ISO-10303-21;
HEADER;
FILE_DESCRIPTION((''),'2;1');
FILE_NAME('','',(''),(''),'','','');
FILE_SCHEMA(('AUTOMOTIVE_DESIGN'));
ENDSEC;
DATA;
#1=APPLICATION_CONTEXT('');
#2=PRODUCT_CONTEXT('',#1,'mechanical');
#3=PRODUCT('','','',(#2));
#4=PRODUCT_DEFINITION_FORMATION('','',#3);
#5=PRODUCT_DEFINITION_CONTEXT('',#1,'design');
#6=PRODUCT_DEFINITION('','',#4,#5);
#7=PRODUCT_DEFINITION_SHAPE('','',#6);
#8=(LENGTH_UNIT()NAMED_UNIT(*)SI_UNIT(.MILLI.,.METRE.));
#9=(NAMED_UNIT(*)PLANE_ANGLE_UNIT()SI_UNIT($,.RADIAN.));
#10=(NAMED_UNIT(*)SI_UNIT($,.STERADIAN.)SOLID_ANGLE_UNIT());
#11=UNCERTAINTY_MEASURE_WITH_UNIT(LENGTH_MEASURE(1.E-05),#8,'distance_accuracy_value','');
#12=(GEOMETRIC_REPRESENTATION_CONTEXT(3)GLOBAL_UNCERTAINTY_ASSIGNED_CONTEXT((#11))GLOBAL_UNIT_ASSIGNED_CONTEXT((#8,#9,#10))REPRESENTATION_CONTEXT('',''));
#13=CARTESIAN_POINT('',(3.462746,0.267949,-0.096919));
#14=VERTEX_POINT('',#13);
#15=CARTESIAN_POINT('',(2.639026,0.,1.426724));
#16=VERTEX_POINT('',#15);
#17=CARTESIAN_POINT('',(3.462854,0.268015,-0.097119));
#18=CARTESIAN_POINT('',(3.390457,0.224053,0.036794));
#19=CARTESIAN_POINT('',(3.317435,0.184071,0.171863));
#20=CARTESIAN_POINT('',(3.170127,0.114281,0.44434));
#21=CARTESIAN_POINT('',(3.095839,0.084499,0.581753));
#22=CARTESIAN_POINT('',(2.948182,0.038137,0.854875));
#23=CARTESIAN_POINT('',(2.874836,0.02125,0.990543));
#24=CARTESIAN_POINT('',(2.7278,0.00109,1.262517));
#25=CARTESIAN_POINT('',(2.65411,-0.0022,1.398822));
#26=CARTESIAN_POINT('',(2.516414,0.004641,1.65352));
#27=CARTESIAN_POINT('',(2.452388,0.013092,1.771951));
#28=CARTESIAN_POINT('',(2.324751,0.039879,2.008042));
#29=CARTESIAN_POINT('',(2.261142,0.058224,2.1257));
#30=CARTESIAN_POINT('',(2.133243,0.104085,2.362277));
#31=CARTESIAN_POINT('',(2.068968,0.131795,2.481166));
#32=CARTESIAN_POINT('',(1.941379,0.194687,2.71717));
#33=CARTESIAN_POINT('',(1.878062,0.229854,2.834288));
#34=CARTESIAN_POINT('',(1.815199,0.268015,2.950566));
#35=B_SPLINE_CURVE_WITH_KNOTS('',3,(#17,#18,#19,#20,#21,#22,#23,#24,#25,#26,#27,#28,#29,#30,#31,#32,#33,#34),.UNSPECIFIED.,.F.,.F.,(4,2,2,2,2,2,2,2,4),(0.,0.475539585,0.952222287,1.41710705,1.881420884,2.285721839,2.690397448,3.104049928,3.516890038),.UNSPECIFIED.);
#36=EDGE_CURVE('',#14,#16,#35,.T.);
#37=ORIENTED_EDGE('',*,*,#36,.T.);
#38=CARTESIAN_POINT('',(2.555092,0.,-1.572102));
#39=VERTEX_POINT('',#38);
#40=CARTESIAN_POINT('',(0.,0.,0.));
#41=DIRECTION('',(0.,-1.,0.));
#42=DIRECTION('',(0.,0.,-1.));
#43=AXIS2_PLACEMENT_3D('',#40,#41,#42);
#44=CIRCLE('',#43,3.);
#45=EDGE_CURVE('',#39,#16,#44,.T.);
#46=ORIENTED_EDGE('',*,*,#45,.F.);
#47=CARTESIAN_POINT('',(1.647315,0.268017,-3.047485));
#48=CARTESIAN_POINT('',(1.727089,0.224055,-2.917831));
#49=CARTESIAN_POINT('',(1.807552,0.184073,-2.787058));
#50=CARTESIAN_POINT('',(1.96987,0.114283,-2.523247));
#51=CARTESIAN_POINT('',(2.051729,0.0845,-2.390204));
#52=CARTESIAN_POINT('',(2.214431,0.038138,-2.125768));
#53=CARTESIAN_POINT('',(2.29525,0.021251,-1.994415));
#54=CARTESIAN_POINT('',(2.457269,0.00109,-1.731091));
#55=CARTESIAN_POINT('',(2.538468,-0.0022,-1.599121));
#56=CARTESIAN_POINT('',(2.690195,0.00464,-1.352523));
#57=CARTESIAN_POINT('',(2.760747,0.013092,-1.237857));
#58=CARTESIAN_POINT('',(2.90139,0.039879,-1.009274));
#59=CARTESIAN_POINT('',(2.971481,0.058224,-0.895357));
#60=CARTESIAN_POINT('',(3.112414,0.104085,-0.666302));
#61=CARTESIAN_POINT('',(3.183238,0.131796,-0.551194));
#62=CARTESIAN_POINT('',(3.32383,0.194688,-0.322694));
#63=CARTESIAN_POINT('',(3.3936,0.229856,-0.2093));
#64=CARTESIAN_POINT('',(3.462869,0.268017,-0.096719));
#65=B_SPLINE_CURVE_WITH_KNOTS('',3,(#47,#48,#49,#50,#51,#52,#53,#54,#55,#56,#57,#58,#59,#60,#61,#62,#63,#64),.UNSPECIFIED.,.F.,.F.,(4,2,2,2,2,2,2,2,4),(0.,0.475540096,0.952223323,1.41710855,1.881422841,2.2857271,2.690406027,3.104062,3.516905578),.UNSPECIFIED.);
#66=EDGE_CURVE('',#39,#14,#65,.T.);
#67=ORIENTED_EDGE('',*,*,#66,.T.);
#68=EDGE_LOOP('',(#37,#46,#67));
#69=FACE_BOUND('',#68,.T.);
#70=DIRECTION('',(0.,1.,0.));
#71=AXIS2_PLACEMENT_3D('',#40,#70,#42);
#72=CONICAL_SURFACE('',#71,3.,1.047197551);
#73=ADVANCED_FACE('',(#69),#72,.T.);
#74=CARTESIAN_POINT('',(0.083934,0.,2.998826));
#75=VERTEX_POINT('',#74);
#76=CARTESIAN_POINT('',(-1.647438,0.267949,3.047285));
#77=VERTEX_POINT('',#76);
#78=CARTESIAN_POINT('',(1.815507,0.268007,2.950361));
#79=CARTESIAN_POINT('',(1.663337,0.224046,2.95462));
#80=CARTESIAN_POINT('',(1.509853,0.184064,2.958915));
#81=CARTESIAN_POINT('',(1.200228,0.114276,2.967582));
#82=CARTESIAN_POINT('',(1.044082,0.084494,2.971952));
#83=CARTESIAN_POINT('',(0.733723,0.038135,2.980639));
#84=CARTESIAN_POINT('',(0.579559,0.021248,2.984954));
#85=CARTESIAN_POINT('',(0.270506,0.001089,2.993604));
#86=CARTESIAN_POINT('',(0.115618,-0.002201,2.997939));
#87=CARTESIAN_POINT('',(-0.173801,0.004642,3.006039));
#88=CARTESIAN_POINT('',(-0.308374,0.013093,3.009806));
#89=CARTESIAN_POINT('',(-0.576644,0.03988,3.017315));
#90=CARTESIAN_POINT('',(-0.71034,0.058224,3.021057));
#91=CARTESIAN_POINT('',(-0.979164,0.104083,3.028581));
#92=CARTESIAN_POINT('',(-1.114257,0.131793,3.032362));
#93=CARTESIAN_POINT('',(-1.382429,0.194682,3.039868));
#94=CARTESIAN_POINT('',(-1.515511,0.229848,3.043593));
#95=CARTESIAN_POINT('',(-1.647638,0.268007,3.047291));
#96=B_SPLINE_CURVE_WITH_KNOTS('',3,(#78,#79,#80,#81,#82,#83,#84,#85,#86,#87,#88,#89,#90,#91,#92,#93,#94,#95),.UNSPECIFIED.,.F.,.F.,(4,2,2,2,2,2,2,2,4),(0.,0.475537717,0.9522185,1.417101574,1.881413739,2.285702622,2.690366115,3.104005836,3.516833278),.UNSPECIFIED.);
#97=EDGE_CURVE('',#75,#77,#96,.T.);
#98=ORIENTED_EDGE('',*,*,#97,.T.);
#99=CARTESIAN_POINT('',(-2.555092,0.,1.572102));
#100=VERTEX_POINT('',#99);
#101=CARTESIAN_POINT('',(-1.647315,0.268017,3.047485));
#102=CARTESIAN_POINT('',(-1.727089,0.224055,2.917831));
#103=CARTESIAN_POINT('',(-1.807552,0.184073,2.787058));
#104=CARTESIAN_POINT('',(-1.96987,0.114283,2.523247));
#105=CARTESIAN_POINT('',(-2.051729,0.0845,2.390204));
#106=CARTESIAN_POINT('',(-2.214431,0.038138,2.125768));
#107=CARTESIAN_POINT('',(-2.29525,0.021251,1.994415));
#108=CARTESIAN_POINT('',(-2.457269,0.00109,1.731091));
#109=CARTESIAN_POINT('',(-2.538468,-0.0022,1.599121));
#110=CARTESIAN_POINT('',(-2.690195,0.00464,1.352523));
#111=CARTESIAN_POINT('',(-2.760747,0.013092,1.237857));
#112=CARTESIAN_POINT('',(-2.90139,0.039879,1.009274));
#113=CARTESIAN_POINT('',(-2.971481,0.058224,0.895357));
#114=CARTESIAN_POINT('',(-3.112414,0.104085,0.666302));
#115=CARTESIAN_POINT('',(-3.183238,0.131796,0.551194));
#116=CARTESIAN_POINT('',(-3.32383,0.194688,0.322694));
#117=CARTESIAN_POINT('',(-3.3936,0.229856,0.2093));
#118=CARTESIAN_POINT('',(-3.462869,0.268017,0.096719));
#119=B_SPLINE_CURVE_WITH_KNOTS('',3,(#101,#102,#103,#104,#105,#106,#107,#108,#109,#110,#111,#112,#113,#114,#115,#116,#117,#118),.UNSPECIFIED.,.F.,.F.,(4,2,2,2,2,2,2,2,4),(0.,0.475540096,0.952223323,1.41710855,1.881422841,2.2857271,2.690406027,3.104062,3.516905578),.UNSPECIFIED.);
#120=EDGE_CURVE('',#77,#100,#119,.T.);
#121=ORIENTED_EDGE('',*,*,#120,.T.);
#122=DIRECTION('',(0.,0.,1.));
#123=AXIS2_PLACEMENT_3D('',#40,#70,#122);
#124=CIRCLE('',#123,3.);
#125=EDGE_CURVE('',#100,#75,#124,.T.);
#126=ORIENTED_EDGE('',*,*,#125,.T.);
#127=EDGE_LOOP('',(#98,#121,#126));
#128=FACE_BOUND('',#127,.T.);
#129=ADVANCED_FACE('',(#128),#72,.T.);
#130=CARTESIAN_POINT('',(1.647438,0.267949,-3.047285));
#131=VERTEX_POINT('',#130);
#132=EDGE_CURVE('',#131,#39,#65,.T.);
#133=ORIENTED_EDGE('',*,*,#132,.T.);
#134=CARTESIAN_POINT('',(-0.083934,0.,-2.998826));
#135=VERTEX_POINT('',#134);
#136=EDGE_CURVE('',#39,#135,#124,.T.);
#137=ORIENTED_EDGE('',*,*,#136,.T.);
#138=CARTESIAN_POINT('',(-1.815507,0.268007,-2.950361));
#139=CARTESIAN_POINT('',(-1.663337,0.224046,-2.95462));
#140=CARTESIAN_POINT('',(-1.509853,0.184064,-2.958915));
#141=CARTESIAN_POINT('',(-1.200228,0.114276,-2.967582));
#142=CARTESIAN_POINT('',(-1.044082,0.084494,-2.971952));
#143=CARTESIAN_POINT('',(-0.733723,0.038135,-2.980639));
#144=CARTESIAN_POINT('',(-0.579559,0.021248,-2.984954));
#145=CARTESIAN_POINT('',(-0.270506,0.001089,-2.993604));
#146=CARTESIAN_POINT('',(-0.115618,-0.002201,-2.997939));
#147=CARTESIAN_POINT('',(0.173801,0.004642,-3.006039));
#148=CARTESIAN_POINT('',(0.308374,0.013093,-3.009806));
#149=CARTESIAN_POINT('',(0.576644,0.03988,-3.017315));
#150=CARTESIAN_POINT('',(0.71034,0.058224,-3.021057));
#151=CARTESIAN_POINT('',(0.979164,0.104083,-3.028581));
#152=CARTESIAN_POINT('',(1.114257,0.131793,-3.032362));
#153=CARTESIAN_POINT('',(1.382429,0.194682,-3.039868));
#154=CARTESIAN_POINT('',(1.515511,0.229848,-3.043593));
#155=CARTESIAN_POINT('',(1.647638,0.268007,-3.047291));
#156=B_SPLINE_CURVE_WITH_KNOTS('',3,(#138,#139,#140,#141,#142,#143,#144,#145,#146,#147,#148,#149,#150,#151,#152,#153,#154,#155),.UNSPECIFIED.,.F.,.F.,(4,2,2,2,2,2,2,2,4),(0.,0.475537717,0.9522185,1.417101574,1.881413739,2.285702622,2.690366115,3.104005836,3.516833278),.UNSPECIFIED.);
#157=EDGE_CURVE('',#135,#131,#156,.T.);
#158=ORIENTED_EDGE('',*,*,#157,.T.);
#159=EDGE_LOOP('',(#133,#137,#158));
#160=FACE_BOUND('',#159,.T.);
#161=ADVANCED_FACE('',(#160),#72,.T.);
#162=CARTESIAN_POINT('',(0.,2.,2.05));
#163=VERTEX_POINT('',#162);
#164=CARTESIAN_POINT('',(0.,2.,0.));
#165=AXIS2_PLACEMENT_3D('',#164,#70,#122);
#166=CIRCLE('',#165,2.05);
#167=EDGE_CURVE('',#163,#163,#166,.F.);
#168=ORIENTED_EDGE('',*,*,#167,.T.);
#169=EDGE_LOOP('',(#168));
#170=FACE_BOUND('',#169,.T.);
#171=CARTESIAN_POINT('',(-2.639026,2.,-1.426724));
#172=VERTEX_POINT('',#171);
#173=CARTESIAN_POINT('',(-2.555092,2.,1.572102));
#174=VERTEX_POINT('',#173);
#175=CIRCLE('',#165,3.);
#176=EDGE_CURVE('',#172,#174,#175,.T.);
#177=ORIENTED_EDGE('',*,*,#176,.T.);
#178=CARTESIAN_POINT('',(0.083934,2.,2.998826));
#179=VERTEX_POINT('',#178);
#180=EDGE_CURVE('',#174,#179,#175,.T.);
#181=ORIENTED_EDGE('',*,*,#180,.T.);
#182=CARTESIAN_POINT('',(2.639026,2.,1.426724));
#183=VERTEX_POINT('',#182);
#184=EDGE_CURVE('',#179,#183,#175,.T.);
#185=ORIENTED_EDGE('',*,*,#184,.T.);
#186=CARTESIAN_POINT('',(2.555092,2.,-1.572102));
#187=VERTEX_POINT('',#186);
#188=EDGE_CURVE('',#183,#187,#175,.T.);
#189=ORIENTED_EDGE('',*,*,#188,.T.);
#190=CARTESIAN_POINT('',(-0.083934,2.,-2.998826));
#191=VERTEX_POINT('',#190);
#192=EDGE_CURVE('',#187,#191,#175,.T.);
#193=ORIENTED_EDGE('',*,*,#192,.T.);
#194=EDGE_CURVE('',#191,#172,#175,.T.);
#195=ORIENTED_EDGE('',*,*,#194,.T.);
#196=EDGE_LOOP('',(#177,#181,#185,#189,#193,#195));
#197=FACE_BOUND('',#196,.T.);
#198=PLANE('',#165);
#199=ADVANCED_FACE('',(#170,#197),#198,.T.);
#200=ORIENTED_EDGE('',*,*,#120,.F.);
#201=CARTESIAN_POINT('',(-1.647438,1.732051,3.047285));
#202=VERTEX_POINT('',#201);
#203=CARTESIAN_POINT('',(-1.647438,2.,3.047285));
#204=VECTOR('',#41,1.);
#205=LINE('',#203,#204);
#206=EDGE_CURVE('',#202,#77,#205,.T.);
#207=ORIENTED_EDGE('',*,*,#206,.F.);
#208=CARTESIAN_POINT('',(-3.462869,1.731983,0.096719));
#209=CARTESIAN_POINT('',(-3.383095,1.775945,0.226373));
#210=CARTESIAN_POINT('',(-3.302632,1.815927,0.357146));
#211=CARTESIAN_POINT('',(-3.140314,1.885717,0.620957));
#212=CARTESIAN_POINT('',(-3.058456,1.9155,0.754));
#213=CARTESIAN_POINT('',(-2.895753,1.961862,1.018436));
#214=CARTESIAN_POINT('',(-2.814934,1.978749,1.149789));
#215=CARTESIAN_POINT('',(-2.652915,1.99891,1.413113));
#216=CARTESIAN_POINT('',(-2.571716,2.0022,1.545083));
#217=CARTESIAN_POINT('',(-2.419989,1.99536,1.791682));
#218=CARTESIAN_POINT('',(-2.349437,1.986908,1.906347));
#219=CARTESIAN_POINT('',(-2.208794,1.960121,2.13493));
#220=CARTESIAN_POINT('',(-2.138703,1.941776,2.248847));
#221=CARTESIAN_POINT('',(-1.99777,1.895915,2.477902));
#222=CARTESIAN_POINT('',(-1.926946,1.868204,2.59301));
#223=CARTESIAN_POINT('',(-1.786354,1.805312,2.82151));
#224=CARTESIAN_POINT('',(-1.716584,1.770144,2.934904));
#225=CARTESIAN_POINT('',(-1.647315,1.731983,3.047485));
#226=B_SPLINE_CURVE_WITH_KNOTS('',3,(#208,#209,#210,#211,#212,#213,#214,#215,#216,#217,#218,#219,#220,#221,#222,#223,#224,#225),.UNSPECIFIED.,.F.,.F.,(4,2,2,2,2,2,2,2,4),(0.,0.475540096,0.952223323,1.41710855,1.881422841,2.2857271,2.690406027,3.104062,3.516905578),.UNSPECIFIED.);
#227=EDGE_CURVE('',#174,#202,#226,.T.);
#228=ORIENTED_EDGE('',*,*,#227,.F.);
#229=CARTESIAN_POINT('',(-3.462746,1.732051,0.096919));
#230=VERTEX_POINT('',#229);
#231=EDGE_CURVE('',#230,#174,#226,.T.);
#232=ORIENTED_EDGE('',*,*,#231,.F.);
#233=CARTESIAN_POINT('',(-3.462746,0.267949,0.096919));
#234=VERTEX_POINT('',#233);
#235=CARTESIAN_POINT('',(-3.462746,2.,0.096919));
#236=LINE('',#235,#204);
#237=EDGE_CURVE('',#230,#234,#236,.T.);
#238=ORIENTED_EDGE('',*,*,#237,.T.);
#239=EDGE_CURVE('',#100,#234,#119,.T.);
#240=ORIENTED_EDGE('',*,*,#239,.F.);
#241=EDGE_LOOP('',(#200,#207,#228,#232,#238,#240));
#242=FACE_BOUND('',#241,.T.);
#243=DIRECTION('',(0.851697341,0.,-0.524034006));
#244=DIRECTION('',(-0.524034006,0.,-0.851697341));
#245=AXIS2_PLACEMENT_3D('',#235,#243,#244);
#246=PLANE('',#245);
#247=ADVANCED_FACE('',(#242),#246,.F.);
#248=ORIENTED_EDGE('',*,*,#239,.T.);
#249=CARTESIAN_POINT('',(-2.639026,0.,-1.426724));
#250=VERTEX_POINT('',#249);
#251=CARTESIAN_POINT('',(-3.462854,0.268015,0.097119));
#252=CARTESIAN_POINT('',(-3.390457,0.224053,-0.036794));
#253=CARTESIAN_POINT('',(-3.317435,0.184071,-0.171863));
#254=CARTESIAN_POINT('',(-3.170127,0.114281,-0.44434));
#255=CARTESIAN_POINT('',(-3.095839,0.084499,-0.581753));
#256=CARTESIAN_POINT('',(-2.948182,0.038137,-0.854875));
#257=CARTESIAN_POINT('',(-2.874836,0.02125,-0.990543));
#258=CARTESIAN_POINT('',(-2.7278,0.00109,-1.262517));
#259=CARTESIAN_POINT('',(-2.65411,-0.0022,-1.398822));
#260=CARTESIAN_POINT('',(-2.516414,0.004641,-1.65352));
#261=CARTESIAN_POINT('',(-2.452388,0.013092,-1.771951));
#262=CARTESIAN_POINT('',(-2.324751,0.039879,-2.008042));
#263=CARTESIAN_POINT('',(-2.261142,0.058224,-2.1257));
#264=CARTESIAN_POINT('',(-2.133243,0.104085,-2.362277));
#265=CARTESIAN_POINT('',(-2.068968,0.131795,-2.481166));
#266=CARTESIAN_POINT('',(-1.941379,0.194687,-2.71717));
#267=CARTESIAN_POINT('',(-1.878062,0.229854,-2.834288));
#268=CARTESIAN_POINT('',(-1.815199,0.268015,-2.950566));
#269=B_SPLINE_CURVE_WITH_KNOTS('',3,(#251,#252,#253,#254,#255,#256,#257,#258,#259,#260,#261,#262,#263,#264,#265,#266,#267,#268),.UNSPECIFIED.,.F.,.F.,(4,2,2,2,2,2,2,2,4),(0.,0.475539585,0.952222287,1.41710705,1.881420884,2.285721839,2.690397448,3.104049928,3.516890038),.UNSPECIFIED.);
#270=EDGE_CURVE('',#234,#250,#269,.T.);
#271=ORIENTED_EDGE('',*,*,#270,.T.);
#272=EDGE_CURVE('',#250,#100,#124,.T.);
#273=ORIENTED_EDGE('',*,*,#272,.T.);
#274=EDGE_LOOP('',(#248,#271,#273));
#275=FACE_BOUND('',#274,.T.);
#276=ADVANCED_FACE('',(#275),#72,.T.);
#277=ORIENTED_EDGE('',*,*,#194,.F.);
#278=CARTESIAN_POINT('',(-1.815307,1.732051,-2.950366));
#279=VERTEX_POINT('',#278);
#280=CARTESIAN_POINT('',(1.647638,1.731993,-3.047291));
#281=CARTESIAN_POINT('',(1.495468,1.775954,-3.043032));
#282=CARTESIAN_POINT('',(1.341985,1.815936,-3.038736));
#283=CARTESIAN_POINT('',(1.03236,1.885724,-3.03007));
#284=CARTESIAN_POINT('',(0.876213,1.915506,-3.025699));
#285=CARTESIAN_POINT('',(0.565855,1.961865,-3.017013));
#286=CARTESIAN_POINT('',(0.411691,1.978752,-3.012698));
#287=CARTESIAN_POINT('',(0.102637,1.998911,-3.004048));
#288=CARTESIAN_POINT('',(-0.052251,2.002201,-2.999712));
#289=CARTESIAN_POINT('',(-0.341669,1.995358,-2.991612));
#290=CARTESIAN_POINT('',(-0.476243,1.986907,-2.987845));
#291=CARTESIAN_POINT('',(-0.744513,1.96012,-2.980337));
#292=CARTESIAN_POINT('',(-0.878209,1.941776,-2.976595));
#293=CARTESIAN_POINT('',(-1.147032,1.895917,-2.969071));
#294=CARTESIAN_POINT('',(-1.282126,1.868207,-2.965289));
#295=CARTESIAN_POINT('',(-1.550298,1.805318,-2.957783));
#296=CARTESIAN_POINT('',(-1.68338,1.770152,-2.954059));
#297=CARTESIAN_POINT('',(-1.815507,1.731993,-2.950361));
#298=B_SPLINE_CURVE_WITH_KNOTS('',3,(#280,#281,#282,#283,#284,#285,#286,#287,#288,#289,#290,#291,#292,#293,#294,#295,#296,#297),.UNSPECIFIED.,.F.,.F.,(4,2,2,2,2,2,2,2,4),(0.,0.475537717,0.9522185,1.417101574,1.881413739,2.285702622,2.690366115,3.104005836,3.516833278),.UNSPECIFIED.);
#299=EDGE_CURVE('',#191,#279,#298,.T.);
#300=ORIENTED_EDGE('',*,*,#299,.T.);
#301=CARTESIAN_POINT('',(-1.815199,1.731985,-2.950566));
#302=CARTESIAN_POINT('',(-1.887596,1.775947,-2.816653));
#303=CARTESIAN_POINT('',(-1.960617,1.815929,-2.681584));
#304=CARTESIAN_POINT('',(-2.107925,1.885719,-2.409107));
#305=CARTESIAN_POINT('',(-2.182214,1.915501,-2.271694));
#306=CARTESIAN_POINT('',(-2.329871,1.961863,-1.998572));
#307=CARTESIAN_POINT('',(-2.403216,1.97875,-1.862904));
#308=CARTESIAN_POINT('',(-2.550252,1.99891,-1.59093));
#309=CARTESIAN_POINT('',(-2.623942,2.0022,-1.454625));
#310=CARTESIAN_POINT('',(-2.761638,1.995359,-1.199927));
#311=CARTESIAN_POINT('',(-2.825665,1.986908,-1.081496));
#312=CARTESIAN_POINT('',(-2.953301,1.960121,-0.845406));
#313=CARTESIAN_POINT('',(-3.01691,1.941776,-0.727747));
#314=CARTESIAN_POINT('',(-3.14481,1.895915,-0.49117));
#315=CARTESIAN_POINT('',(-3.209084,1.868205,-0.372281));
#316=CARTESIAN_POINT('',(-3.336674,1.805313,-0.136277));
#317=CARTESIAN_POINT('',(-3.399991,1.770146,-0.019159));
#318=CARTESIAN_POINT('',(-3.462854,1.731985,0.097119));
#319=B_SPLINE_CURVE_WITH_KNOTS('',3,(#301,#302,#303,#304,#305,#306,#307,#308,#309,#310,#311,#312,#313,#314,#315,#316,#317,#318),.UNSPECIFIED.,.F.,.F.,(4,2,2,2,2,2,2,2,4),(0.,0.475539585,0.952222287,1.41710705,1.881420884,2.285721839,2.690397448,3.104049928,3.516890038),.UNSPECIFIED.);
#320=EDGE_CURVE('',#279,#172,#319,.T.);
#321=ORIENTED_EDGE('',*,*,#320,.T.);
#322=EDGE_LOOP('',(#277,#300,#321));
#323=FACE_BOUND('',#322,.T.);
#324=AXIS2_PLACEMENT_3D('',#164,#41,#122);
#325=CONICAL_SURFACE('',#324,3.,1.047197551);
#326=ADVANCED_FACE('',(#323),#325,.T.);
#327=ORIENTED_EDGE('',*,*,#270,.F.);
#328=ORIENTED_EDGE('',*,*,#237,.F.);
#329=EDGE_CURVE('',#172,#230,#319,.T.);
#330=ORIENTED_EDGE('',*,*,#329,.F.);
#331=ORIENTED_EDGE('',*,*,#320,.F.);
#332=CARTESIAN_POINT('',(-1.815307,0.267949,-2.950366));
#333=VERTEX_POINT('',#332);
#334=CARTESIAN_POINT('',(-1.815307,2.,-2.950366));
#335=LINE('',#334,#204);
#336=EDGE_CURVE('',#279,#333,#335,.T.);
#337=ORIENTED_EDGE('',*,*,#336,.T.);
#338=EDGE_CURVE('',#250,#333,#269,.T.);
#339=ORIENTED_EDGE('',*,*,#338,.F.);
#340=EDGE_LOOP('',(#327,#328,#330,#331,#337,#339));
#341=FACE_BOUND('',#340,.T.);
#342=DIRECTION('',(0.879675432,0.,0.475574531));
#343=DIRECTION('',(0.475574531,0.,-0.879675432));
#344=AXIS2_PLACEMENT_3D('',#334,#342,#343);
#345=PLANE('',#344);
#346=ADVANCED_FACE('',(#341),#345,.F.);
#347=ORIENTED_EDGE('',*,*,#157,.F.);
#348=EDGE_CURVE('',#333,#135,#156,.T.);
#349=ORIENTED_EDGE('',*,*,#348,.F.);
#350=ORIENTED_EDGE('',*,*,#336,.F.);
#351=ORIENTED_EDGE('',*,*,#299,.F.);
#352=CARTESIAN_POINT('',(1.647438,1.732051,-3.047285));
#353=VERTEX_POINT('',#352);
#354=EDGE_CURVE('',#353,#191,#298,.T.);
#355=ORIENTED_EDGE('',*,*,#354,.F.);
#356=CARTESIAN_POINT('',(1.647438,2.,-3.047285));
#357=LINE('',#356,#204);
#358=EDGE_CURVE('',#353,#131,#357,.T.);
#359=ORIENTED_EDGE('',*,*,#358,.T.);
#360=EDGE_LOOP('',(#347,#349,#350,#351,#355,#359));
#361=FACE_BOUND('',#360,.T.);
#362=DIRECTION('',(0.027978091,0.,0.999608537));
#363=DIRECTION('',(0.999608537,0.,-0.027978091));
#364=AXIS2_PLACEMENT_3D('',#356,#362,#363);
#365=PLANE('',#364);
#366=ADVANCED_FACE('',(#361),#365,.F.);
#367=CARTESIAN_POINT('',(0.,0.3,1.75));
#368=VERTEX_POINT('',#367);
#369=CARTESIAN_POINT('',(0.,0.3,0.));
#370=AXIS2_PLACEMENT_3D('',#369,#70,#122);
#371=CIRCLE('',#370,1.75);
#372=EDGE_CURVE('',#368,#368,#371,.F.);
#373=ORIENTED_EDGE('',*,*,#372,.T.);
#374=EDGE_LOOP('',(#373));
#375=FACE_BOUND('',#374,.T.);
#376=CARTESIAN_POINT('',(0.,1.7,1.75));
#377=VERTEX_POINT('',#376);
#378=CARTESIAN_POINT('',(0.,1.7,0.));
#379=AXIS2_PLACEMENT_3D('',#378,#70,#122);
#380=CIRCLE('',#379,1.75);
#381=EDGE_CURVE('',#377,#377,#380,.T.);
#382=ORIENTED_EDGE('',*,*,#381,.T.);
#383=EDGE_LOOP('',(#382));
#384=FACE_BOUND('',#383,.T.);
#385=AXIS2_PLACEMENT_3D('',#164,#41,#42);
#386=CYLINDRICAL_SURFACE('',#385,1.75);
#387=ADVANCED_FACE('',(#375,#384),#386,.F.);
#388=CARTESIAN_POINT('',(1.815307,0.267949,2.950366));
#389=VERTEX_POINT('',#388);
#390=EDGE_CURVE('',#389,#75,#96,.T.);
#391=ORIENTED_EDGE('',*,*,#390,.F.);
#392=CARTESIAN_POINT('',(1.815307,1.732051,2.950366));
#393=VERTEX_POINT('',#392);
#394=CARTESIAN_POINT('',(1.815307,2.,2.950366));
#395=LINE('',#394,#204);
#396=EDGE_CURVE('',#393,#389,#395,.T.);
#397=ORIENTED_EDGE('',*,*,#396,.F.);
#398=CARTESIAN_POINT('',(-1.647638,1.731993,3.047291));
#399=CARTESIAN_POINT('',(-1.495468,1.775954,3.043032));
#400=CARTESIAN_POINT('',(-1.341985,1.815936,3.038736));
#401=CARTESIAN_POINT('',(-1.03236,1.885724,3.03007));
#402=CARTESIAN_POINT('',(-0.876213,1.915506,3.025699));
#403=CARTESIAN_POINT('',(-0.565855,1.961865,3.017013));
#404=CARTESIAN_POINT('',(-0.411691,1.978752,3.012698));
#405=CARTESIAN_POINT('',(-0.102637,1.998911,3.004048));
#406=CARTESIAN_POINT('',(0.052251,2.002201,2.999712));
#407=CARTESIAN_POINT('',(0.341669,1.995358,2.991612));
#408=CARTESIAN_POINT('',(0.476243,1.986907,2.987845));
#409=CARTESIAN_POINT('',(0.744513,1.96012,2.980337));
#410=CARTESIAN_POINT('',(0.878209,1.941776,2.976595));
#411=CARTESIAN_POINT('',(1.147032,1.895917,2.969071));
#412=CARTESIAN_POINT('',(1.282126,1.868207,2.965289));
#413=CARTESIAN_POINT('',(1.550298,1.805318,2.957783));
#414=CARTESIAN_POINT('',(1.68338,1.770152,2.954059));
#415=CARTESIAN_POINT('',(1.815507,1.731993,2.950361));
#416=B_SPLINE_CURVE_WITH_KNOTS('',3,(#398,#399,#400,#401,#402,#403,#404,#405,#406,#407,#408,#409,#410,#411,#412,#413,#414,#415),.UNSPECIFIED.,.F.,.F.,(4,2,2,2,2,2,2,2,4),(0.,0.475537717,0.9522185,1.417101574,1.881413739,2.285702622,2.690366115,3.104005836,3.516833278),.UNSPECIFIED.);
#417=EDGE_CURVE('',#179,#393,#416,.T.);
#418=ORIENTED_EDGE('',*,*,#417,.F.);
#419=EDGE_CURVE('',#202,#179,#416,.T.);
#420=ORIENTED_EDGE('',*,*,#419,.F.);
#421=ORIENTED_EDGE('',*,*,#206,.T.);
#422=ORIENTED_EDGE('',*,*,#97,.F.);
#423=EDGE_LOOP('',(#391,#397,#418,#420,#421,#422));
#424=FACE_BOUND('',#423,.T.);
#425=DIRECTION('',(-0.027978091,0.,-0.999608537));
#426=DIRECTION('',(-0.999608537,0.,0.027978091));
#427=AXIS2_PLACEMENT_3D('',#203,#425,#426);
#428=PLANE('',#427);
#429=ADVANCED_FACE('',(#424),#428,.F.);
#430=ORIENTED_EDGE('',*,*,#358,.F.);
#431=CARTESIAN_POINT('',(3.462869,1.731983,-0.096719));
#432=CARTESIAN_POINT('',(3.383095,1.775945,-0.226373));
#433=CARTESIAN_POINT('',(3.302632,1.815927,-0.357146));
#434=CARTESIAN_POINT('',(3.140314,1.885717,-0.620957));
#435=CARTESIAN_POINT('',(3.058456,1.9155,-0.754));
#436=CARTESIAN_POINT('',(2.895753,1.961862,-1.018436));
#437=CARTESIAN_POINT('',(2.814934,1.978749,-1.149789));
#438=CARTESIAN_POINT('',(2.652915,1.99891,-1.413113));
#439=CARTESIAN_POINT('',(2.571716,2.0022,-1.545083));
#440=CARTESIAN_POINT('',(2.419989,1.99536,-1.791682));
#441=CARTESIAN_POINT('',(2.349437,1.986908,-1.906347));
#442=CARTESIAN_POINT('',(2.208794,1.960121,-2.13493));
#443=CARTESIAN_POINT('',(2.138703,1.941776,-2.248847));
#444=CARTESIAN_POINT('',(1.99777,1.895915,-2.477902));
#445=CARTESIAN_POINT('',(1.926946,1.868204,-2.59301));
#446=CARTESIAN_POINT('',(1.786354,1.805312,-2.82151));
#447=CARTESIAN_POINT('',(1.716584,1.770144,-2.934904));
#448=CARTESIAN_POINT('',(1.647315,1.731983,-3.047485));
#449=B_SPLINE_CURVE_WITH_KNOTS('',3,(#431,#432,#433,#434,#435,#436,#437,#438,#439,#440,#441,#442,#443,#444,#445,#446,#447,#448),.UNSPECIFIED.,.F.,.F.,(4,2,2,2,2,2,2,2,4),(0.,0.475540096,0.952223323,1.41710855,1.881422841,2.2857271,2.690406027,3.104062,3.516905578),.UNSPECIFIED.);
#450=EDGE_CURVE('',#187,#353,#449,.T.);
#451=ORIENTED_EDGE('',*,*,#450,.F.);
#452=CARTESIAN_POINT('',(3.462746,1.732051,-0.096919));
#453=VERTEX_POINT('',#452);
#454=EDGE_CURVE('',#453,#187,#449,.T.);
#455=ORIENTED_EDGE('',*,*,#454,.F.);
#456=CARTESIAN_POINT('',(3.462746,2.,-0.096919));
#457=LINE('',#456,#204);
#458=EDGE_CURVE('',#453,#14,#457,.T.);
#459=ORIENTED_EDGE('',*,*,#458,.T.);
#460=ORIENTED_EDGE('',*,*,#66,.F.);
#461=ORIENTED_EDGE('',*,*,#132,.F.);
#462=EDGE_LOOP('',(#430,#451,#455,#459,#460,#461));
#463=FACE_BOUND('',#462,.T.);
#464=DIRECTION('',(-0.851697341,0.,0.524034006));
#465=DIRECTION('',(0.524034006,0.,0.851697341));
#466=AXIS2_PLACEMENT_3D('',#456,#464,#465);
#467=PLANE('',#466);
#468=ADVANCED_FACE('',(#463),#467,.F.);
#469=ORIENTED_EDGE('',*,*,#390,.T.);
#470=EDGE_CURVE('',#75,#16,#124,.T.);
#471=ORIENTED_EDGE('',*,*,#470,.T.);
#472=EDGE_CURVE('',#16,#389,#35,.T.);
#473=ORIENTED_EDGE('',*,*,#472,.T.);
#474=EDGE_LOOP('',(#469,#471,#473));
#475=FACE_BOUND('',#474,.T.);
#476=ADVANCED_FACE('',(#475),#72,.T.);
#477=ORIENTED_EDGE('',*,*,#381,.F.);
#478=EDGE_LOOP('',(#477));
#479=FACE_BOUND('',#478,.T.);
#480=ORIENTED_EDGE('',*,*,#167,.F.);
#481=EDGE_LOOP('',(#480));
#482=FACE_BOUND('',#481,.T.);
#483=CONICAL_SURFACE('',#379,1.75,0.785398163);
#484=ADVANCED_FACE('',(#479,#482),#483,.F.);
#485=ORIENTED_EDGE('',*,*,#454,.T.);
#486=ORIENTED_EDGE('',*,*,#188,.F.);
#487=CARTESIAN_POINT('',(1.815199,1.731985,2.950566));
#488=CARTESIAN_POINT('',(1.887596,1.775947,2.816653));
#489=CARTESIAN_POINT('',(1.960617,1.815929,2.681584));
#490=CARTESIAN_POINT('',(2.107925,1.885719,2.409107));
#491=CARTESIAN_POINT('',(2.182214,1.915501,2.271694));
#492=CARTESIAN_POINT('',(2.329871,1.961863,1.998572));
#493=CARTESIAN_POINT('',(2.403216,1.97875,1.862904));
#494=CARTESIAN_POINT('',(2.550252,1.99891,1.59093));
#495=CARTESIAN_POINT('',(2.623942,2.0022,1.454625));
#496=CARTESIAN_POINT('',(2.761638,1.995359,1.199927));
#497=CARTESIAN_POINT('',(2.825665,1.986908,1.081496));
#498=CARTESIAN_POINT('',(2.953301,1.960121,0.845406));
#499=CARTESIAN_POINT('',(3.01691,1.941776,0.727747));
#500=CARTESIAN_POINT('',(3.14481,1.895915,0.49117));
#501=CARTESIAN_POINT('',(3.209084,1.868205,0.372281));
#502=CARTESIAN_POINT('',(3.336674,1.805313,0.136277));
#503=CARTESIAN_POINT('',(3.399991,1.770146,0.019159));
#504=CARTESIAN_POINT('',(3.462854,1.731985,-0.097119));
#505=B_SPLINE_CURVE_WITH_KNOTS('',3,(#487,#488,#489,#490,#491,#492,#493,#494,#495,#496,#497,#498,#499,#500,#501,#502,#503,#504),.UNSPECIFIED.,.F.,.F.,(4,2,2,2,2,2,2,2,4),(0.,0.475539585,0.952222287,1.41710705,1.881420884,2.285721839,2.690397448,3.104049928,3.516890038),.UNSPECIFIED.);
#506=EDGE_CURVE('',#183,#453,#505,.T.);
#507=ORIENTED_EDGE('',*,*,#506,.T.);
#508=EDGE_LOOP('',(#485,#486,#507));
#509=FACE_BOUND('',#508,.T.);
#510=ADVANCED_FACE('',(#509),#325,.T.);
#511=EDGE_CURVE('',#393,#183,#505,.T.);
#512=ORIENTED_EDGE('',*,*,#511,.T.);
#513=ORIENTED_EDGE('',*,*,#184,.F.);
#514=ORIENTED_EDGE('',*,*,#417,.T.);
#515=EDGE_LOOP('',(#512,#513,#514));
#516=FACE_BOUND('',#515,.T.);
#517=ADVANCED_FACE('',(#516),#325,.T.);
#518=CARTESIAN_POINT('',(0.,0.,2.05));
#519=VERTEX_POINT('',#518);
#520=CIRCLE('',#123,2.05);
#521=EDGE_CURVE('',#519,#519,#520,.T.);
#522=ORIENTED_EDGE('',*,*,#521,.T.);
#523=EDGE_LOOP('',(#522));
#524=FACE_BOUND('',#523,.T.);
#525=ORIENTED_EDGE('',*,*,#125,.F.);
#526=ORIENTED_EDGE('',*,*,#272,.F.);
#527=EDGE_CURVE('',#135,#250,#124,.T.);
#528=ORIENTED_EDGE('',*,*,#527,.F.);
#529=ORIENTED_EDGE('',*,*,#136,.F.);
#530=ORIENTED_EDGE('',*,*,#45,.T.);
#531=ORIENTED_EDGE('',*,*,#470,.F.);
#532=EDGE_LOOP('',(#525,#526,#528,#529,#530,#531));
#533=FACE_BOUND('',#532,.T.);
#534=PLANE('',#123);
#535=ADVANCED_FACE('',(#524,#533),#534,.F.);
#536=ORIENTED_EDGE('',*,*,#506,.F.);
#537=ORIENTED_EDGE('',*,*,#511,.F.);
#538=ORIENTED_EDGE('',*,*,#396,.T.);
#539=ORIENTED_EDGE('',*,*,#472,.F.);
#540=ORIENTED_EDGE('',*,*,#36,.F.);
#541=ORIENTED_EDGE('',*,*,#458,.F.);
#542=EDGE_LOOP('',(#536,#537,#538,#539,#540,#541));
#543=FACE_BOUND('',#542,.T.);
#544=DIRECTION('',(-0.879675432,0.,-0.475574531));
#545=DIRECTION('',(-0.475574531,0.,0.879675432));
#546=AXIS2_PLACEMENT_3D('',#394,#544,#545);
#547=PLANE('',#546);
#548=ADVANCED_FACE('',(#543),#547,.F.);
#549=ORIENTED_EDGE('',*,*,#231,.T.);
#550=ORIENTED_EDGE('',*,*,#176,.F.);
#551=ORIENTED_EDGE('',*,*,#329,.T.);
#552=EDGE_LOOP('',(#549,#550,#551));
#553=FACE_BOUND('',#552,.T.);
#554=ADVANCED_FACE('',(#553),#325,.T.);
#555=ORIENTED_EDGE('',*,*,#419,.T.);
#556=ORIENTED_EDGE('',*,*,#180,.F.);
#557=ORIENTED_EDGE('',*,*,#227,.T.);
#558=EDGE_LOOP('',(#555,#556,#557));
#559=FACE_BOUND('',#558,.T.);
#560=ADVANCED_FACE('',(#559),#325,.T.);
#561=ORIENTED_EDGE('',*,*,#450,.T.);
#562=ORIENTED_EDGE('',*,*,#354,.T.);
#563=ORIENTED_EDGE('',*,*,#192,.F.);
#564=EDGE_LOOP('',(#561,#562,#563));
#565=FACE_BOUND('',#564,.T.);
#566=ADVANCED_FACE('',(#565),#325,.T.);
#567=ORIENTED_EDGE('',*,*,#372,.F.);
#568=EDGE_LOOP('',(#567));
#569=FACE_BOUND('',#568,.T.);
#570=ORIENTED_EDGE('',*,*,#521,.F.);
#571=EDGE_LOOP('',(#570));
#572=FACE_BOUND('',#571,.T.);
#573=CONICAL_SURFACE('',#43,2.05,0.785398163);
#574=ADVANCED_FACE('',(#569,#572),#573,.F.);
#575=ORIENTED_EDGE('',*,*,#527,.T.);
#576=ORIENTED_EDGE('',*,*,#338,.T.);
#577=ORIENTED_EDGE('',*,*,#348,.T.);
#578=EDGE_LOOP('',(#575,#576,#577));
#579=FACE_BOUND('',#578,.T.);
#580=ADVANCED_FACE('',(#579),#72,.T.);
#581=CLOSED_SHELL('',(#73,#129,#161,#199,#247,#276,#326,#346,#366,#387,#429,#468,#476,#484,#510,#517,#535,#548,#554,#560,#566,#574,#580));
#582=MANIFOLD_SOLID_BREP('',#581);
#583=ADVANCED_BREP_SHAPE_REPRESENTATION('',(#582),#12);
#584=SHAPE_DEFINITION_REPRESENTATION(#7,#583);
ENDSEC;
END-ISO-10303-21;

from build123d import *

# Parameters (mm, degrees)
SKETCH1_R           = 1.75
BOSS_EXTRUDE1_DEPTH = 2
SKETCH2_OUTSIDE_W   = 626.732
SKETCH2_OUTSIDE_H   = 625.9
SKETCH2_OUTSIDE_R   = 3
CUT_EXTRUDE1_DEPTH  = 177.8
CUT_EXTRUDE1_DRAFT  = -60
SKETCH3_OUTSIDE_W   = 626.732
SKETCH3_OUTSIDE_H   = 625.9
SKETCH3_OUTSIDE_R   = 3
CUT_EXTRUDE2_DEPTH  = 177.8
CUT_EXTRUDE2_DRAFT  = -60
CHAMFER1_SIZE       = 0.3
CHAMFER2_SIZE       = 0.3


with BuildPart() as part:
    # Sketch1 → Boss-Extrude1 (new body)
    with BuildSketch(Plane(origin=(0, 0, 0), x_dir=(1, 0, 0), z_dir=(0, 1, 0))):
        Polygon((1.647438499, 3.047285085), (-1.815307047, 2.950366134), (-3.462745546, -0.096918951), (-1.647438499, -3.047285085), (1.815307047, -2.950366134), (3.462745546, 0.096918951), align=None)
        with Locations(Location((0, 0, 0), (0, 0, 270))):
            Circle(SKETCH1_R, mode=Mode.SUBTRACT)
    extrude(amount=BOSS_EXTRUDE1_DEPTH)


with BuildPart() as cut_extrude1_tool:
    # Sketch2 outside → Cut-Extrude1 (with draft: the straight prism first)
    with BuildSketch(Plane(origin=(0, 2, 0), x_dir=(1, 0, 0), z_dir=(0, 1, 0))):
        Rectangle(SKETCH2_OUTSIDE_W, SKETCH2_OUTSIDE_H)
        Circle(SKETCH2_OUTSIDE_R, mode=Mode.SUBTRACT)
    extrude(amount=-CUT_EXTRUDE1_DEPTH)
    # Cut-Extrude1: the draft: its side faces are tilted about the plane it starts from
    cut_extrude1_sides = [cut_extrude1_tool.faces().sort_by_distance(p)[0] for p in [
        (0, -86.9, 312.95),
        (313.366, -86.9, 0),
        (0, -86.9, -312.95),
        (-313.366, -86.9, 0),
        (-3, -86.9, 0),
    ]]
    draft(cut_extrude1_sides, Plane(origin=(0, 2, 0), x_dir=(1, 0, 0), z_dir=(0, 1, 0)), CUT_EXTRUDE1_DRAFT)


with BuildPart() as part_1:
    add(part.part)

    # Cut-Extrude1: cut by cut_extrude1_tool
    add(cut_extrude1_tool.part, mode=Mode.SUBTRACT)


with BuildPart() as cut_extrude2_tool:
    # Sketch3 outside → Cut-Extrude2 (with draft: the straight prism first)
    with BuildSketch(Plane.XZ):
        Rectangle(SKETCH3_OUTSIDE_W, SKETCH3_OUTSIDE_H)
        Circle(SKETCH3_OUTSIDE_R, mode=Mode.SUBTRACT)
    extrude(amount=-CUT_EXTRUDE2_DEPTH)
    # Cut-Extrude2: the draft: its side faces are tilted about the plane it starts from
    cut_extrude2_sides = [cut_extrude2_tool.faces().sort_by_distance(p)[0] for p in [
        (0, 88.9, -312.95),
        (313.366, 88.9, 0),
        (0, 88.9, 312.95),
        (-313.366, 88.9, 0),
        (-3, 88.9, 0),
    ]]
    draft(cut_extrude2_sides, Plane.XZ, CUT_EXTRUDE2_DRAFT)


with BuildPart() as part_2:
    add(part_1.part)

    # Cut-Extrude2: cut by cut_extrude2_tool
    add(cut_extrude2_tool.part, mode=Mode.SUBTRACT)

    # Chamfer1
    chamfer1_edges = [part_2.edges().sort_by_distance(p)[0] for p in [
        (0, 2, -1.75),
    ]]
    chamfer(chamfer1_edges, length=CHAMFER1_SIZE)

    # Chamfer2
    chamfer2_edges = [part_2.edges().sort_by_distance(p)[0] for p in [
        (0, 0, -1.75),
    ]]
    chamfer(chamfer2_edges, length=CHAMFER2_SIZE)


solid = part_2.part
